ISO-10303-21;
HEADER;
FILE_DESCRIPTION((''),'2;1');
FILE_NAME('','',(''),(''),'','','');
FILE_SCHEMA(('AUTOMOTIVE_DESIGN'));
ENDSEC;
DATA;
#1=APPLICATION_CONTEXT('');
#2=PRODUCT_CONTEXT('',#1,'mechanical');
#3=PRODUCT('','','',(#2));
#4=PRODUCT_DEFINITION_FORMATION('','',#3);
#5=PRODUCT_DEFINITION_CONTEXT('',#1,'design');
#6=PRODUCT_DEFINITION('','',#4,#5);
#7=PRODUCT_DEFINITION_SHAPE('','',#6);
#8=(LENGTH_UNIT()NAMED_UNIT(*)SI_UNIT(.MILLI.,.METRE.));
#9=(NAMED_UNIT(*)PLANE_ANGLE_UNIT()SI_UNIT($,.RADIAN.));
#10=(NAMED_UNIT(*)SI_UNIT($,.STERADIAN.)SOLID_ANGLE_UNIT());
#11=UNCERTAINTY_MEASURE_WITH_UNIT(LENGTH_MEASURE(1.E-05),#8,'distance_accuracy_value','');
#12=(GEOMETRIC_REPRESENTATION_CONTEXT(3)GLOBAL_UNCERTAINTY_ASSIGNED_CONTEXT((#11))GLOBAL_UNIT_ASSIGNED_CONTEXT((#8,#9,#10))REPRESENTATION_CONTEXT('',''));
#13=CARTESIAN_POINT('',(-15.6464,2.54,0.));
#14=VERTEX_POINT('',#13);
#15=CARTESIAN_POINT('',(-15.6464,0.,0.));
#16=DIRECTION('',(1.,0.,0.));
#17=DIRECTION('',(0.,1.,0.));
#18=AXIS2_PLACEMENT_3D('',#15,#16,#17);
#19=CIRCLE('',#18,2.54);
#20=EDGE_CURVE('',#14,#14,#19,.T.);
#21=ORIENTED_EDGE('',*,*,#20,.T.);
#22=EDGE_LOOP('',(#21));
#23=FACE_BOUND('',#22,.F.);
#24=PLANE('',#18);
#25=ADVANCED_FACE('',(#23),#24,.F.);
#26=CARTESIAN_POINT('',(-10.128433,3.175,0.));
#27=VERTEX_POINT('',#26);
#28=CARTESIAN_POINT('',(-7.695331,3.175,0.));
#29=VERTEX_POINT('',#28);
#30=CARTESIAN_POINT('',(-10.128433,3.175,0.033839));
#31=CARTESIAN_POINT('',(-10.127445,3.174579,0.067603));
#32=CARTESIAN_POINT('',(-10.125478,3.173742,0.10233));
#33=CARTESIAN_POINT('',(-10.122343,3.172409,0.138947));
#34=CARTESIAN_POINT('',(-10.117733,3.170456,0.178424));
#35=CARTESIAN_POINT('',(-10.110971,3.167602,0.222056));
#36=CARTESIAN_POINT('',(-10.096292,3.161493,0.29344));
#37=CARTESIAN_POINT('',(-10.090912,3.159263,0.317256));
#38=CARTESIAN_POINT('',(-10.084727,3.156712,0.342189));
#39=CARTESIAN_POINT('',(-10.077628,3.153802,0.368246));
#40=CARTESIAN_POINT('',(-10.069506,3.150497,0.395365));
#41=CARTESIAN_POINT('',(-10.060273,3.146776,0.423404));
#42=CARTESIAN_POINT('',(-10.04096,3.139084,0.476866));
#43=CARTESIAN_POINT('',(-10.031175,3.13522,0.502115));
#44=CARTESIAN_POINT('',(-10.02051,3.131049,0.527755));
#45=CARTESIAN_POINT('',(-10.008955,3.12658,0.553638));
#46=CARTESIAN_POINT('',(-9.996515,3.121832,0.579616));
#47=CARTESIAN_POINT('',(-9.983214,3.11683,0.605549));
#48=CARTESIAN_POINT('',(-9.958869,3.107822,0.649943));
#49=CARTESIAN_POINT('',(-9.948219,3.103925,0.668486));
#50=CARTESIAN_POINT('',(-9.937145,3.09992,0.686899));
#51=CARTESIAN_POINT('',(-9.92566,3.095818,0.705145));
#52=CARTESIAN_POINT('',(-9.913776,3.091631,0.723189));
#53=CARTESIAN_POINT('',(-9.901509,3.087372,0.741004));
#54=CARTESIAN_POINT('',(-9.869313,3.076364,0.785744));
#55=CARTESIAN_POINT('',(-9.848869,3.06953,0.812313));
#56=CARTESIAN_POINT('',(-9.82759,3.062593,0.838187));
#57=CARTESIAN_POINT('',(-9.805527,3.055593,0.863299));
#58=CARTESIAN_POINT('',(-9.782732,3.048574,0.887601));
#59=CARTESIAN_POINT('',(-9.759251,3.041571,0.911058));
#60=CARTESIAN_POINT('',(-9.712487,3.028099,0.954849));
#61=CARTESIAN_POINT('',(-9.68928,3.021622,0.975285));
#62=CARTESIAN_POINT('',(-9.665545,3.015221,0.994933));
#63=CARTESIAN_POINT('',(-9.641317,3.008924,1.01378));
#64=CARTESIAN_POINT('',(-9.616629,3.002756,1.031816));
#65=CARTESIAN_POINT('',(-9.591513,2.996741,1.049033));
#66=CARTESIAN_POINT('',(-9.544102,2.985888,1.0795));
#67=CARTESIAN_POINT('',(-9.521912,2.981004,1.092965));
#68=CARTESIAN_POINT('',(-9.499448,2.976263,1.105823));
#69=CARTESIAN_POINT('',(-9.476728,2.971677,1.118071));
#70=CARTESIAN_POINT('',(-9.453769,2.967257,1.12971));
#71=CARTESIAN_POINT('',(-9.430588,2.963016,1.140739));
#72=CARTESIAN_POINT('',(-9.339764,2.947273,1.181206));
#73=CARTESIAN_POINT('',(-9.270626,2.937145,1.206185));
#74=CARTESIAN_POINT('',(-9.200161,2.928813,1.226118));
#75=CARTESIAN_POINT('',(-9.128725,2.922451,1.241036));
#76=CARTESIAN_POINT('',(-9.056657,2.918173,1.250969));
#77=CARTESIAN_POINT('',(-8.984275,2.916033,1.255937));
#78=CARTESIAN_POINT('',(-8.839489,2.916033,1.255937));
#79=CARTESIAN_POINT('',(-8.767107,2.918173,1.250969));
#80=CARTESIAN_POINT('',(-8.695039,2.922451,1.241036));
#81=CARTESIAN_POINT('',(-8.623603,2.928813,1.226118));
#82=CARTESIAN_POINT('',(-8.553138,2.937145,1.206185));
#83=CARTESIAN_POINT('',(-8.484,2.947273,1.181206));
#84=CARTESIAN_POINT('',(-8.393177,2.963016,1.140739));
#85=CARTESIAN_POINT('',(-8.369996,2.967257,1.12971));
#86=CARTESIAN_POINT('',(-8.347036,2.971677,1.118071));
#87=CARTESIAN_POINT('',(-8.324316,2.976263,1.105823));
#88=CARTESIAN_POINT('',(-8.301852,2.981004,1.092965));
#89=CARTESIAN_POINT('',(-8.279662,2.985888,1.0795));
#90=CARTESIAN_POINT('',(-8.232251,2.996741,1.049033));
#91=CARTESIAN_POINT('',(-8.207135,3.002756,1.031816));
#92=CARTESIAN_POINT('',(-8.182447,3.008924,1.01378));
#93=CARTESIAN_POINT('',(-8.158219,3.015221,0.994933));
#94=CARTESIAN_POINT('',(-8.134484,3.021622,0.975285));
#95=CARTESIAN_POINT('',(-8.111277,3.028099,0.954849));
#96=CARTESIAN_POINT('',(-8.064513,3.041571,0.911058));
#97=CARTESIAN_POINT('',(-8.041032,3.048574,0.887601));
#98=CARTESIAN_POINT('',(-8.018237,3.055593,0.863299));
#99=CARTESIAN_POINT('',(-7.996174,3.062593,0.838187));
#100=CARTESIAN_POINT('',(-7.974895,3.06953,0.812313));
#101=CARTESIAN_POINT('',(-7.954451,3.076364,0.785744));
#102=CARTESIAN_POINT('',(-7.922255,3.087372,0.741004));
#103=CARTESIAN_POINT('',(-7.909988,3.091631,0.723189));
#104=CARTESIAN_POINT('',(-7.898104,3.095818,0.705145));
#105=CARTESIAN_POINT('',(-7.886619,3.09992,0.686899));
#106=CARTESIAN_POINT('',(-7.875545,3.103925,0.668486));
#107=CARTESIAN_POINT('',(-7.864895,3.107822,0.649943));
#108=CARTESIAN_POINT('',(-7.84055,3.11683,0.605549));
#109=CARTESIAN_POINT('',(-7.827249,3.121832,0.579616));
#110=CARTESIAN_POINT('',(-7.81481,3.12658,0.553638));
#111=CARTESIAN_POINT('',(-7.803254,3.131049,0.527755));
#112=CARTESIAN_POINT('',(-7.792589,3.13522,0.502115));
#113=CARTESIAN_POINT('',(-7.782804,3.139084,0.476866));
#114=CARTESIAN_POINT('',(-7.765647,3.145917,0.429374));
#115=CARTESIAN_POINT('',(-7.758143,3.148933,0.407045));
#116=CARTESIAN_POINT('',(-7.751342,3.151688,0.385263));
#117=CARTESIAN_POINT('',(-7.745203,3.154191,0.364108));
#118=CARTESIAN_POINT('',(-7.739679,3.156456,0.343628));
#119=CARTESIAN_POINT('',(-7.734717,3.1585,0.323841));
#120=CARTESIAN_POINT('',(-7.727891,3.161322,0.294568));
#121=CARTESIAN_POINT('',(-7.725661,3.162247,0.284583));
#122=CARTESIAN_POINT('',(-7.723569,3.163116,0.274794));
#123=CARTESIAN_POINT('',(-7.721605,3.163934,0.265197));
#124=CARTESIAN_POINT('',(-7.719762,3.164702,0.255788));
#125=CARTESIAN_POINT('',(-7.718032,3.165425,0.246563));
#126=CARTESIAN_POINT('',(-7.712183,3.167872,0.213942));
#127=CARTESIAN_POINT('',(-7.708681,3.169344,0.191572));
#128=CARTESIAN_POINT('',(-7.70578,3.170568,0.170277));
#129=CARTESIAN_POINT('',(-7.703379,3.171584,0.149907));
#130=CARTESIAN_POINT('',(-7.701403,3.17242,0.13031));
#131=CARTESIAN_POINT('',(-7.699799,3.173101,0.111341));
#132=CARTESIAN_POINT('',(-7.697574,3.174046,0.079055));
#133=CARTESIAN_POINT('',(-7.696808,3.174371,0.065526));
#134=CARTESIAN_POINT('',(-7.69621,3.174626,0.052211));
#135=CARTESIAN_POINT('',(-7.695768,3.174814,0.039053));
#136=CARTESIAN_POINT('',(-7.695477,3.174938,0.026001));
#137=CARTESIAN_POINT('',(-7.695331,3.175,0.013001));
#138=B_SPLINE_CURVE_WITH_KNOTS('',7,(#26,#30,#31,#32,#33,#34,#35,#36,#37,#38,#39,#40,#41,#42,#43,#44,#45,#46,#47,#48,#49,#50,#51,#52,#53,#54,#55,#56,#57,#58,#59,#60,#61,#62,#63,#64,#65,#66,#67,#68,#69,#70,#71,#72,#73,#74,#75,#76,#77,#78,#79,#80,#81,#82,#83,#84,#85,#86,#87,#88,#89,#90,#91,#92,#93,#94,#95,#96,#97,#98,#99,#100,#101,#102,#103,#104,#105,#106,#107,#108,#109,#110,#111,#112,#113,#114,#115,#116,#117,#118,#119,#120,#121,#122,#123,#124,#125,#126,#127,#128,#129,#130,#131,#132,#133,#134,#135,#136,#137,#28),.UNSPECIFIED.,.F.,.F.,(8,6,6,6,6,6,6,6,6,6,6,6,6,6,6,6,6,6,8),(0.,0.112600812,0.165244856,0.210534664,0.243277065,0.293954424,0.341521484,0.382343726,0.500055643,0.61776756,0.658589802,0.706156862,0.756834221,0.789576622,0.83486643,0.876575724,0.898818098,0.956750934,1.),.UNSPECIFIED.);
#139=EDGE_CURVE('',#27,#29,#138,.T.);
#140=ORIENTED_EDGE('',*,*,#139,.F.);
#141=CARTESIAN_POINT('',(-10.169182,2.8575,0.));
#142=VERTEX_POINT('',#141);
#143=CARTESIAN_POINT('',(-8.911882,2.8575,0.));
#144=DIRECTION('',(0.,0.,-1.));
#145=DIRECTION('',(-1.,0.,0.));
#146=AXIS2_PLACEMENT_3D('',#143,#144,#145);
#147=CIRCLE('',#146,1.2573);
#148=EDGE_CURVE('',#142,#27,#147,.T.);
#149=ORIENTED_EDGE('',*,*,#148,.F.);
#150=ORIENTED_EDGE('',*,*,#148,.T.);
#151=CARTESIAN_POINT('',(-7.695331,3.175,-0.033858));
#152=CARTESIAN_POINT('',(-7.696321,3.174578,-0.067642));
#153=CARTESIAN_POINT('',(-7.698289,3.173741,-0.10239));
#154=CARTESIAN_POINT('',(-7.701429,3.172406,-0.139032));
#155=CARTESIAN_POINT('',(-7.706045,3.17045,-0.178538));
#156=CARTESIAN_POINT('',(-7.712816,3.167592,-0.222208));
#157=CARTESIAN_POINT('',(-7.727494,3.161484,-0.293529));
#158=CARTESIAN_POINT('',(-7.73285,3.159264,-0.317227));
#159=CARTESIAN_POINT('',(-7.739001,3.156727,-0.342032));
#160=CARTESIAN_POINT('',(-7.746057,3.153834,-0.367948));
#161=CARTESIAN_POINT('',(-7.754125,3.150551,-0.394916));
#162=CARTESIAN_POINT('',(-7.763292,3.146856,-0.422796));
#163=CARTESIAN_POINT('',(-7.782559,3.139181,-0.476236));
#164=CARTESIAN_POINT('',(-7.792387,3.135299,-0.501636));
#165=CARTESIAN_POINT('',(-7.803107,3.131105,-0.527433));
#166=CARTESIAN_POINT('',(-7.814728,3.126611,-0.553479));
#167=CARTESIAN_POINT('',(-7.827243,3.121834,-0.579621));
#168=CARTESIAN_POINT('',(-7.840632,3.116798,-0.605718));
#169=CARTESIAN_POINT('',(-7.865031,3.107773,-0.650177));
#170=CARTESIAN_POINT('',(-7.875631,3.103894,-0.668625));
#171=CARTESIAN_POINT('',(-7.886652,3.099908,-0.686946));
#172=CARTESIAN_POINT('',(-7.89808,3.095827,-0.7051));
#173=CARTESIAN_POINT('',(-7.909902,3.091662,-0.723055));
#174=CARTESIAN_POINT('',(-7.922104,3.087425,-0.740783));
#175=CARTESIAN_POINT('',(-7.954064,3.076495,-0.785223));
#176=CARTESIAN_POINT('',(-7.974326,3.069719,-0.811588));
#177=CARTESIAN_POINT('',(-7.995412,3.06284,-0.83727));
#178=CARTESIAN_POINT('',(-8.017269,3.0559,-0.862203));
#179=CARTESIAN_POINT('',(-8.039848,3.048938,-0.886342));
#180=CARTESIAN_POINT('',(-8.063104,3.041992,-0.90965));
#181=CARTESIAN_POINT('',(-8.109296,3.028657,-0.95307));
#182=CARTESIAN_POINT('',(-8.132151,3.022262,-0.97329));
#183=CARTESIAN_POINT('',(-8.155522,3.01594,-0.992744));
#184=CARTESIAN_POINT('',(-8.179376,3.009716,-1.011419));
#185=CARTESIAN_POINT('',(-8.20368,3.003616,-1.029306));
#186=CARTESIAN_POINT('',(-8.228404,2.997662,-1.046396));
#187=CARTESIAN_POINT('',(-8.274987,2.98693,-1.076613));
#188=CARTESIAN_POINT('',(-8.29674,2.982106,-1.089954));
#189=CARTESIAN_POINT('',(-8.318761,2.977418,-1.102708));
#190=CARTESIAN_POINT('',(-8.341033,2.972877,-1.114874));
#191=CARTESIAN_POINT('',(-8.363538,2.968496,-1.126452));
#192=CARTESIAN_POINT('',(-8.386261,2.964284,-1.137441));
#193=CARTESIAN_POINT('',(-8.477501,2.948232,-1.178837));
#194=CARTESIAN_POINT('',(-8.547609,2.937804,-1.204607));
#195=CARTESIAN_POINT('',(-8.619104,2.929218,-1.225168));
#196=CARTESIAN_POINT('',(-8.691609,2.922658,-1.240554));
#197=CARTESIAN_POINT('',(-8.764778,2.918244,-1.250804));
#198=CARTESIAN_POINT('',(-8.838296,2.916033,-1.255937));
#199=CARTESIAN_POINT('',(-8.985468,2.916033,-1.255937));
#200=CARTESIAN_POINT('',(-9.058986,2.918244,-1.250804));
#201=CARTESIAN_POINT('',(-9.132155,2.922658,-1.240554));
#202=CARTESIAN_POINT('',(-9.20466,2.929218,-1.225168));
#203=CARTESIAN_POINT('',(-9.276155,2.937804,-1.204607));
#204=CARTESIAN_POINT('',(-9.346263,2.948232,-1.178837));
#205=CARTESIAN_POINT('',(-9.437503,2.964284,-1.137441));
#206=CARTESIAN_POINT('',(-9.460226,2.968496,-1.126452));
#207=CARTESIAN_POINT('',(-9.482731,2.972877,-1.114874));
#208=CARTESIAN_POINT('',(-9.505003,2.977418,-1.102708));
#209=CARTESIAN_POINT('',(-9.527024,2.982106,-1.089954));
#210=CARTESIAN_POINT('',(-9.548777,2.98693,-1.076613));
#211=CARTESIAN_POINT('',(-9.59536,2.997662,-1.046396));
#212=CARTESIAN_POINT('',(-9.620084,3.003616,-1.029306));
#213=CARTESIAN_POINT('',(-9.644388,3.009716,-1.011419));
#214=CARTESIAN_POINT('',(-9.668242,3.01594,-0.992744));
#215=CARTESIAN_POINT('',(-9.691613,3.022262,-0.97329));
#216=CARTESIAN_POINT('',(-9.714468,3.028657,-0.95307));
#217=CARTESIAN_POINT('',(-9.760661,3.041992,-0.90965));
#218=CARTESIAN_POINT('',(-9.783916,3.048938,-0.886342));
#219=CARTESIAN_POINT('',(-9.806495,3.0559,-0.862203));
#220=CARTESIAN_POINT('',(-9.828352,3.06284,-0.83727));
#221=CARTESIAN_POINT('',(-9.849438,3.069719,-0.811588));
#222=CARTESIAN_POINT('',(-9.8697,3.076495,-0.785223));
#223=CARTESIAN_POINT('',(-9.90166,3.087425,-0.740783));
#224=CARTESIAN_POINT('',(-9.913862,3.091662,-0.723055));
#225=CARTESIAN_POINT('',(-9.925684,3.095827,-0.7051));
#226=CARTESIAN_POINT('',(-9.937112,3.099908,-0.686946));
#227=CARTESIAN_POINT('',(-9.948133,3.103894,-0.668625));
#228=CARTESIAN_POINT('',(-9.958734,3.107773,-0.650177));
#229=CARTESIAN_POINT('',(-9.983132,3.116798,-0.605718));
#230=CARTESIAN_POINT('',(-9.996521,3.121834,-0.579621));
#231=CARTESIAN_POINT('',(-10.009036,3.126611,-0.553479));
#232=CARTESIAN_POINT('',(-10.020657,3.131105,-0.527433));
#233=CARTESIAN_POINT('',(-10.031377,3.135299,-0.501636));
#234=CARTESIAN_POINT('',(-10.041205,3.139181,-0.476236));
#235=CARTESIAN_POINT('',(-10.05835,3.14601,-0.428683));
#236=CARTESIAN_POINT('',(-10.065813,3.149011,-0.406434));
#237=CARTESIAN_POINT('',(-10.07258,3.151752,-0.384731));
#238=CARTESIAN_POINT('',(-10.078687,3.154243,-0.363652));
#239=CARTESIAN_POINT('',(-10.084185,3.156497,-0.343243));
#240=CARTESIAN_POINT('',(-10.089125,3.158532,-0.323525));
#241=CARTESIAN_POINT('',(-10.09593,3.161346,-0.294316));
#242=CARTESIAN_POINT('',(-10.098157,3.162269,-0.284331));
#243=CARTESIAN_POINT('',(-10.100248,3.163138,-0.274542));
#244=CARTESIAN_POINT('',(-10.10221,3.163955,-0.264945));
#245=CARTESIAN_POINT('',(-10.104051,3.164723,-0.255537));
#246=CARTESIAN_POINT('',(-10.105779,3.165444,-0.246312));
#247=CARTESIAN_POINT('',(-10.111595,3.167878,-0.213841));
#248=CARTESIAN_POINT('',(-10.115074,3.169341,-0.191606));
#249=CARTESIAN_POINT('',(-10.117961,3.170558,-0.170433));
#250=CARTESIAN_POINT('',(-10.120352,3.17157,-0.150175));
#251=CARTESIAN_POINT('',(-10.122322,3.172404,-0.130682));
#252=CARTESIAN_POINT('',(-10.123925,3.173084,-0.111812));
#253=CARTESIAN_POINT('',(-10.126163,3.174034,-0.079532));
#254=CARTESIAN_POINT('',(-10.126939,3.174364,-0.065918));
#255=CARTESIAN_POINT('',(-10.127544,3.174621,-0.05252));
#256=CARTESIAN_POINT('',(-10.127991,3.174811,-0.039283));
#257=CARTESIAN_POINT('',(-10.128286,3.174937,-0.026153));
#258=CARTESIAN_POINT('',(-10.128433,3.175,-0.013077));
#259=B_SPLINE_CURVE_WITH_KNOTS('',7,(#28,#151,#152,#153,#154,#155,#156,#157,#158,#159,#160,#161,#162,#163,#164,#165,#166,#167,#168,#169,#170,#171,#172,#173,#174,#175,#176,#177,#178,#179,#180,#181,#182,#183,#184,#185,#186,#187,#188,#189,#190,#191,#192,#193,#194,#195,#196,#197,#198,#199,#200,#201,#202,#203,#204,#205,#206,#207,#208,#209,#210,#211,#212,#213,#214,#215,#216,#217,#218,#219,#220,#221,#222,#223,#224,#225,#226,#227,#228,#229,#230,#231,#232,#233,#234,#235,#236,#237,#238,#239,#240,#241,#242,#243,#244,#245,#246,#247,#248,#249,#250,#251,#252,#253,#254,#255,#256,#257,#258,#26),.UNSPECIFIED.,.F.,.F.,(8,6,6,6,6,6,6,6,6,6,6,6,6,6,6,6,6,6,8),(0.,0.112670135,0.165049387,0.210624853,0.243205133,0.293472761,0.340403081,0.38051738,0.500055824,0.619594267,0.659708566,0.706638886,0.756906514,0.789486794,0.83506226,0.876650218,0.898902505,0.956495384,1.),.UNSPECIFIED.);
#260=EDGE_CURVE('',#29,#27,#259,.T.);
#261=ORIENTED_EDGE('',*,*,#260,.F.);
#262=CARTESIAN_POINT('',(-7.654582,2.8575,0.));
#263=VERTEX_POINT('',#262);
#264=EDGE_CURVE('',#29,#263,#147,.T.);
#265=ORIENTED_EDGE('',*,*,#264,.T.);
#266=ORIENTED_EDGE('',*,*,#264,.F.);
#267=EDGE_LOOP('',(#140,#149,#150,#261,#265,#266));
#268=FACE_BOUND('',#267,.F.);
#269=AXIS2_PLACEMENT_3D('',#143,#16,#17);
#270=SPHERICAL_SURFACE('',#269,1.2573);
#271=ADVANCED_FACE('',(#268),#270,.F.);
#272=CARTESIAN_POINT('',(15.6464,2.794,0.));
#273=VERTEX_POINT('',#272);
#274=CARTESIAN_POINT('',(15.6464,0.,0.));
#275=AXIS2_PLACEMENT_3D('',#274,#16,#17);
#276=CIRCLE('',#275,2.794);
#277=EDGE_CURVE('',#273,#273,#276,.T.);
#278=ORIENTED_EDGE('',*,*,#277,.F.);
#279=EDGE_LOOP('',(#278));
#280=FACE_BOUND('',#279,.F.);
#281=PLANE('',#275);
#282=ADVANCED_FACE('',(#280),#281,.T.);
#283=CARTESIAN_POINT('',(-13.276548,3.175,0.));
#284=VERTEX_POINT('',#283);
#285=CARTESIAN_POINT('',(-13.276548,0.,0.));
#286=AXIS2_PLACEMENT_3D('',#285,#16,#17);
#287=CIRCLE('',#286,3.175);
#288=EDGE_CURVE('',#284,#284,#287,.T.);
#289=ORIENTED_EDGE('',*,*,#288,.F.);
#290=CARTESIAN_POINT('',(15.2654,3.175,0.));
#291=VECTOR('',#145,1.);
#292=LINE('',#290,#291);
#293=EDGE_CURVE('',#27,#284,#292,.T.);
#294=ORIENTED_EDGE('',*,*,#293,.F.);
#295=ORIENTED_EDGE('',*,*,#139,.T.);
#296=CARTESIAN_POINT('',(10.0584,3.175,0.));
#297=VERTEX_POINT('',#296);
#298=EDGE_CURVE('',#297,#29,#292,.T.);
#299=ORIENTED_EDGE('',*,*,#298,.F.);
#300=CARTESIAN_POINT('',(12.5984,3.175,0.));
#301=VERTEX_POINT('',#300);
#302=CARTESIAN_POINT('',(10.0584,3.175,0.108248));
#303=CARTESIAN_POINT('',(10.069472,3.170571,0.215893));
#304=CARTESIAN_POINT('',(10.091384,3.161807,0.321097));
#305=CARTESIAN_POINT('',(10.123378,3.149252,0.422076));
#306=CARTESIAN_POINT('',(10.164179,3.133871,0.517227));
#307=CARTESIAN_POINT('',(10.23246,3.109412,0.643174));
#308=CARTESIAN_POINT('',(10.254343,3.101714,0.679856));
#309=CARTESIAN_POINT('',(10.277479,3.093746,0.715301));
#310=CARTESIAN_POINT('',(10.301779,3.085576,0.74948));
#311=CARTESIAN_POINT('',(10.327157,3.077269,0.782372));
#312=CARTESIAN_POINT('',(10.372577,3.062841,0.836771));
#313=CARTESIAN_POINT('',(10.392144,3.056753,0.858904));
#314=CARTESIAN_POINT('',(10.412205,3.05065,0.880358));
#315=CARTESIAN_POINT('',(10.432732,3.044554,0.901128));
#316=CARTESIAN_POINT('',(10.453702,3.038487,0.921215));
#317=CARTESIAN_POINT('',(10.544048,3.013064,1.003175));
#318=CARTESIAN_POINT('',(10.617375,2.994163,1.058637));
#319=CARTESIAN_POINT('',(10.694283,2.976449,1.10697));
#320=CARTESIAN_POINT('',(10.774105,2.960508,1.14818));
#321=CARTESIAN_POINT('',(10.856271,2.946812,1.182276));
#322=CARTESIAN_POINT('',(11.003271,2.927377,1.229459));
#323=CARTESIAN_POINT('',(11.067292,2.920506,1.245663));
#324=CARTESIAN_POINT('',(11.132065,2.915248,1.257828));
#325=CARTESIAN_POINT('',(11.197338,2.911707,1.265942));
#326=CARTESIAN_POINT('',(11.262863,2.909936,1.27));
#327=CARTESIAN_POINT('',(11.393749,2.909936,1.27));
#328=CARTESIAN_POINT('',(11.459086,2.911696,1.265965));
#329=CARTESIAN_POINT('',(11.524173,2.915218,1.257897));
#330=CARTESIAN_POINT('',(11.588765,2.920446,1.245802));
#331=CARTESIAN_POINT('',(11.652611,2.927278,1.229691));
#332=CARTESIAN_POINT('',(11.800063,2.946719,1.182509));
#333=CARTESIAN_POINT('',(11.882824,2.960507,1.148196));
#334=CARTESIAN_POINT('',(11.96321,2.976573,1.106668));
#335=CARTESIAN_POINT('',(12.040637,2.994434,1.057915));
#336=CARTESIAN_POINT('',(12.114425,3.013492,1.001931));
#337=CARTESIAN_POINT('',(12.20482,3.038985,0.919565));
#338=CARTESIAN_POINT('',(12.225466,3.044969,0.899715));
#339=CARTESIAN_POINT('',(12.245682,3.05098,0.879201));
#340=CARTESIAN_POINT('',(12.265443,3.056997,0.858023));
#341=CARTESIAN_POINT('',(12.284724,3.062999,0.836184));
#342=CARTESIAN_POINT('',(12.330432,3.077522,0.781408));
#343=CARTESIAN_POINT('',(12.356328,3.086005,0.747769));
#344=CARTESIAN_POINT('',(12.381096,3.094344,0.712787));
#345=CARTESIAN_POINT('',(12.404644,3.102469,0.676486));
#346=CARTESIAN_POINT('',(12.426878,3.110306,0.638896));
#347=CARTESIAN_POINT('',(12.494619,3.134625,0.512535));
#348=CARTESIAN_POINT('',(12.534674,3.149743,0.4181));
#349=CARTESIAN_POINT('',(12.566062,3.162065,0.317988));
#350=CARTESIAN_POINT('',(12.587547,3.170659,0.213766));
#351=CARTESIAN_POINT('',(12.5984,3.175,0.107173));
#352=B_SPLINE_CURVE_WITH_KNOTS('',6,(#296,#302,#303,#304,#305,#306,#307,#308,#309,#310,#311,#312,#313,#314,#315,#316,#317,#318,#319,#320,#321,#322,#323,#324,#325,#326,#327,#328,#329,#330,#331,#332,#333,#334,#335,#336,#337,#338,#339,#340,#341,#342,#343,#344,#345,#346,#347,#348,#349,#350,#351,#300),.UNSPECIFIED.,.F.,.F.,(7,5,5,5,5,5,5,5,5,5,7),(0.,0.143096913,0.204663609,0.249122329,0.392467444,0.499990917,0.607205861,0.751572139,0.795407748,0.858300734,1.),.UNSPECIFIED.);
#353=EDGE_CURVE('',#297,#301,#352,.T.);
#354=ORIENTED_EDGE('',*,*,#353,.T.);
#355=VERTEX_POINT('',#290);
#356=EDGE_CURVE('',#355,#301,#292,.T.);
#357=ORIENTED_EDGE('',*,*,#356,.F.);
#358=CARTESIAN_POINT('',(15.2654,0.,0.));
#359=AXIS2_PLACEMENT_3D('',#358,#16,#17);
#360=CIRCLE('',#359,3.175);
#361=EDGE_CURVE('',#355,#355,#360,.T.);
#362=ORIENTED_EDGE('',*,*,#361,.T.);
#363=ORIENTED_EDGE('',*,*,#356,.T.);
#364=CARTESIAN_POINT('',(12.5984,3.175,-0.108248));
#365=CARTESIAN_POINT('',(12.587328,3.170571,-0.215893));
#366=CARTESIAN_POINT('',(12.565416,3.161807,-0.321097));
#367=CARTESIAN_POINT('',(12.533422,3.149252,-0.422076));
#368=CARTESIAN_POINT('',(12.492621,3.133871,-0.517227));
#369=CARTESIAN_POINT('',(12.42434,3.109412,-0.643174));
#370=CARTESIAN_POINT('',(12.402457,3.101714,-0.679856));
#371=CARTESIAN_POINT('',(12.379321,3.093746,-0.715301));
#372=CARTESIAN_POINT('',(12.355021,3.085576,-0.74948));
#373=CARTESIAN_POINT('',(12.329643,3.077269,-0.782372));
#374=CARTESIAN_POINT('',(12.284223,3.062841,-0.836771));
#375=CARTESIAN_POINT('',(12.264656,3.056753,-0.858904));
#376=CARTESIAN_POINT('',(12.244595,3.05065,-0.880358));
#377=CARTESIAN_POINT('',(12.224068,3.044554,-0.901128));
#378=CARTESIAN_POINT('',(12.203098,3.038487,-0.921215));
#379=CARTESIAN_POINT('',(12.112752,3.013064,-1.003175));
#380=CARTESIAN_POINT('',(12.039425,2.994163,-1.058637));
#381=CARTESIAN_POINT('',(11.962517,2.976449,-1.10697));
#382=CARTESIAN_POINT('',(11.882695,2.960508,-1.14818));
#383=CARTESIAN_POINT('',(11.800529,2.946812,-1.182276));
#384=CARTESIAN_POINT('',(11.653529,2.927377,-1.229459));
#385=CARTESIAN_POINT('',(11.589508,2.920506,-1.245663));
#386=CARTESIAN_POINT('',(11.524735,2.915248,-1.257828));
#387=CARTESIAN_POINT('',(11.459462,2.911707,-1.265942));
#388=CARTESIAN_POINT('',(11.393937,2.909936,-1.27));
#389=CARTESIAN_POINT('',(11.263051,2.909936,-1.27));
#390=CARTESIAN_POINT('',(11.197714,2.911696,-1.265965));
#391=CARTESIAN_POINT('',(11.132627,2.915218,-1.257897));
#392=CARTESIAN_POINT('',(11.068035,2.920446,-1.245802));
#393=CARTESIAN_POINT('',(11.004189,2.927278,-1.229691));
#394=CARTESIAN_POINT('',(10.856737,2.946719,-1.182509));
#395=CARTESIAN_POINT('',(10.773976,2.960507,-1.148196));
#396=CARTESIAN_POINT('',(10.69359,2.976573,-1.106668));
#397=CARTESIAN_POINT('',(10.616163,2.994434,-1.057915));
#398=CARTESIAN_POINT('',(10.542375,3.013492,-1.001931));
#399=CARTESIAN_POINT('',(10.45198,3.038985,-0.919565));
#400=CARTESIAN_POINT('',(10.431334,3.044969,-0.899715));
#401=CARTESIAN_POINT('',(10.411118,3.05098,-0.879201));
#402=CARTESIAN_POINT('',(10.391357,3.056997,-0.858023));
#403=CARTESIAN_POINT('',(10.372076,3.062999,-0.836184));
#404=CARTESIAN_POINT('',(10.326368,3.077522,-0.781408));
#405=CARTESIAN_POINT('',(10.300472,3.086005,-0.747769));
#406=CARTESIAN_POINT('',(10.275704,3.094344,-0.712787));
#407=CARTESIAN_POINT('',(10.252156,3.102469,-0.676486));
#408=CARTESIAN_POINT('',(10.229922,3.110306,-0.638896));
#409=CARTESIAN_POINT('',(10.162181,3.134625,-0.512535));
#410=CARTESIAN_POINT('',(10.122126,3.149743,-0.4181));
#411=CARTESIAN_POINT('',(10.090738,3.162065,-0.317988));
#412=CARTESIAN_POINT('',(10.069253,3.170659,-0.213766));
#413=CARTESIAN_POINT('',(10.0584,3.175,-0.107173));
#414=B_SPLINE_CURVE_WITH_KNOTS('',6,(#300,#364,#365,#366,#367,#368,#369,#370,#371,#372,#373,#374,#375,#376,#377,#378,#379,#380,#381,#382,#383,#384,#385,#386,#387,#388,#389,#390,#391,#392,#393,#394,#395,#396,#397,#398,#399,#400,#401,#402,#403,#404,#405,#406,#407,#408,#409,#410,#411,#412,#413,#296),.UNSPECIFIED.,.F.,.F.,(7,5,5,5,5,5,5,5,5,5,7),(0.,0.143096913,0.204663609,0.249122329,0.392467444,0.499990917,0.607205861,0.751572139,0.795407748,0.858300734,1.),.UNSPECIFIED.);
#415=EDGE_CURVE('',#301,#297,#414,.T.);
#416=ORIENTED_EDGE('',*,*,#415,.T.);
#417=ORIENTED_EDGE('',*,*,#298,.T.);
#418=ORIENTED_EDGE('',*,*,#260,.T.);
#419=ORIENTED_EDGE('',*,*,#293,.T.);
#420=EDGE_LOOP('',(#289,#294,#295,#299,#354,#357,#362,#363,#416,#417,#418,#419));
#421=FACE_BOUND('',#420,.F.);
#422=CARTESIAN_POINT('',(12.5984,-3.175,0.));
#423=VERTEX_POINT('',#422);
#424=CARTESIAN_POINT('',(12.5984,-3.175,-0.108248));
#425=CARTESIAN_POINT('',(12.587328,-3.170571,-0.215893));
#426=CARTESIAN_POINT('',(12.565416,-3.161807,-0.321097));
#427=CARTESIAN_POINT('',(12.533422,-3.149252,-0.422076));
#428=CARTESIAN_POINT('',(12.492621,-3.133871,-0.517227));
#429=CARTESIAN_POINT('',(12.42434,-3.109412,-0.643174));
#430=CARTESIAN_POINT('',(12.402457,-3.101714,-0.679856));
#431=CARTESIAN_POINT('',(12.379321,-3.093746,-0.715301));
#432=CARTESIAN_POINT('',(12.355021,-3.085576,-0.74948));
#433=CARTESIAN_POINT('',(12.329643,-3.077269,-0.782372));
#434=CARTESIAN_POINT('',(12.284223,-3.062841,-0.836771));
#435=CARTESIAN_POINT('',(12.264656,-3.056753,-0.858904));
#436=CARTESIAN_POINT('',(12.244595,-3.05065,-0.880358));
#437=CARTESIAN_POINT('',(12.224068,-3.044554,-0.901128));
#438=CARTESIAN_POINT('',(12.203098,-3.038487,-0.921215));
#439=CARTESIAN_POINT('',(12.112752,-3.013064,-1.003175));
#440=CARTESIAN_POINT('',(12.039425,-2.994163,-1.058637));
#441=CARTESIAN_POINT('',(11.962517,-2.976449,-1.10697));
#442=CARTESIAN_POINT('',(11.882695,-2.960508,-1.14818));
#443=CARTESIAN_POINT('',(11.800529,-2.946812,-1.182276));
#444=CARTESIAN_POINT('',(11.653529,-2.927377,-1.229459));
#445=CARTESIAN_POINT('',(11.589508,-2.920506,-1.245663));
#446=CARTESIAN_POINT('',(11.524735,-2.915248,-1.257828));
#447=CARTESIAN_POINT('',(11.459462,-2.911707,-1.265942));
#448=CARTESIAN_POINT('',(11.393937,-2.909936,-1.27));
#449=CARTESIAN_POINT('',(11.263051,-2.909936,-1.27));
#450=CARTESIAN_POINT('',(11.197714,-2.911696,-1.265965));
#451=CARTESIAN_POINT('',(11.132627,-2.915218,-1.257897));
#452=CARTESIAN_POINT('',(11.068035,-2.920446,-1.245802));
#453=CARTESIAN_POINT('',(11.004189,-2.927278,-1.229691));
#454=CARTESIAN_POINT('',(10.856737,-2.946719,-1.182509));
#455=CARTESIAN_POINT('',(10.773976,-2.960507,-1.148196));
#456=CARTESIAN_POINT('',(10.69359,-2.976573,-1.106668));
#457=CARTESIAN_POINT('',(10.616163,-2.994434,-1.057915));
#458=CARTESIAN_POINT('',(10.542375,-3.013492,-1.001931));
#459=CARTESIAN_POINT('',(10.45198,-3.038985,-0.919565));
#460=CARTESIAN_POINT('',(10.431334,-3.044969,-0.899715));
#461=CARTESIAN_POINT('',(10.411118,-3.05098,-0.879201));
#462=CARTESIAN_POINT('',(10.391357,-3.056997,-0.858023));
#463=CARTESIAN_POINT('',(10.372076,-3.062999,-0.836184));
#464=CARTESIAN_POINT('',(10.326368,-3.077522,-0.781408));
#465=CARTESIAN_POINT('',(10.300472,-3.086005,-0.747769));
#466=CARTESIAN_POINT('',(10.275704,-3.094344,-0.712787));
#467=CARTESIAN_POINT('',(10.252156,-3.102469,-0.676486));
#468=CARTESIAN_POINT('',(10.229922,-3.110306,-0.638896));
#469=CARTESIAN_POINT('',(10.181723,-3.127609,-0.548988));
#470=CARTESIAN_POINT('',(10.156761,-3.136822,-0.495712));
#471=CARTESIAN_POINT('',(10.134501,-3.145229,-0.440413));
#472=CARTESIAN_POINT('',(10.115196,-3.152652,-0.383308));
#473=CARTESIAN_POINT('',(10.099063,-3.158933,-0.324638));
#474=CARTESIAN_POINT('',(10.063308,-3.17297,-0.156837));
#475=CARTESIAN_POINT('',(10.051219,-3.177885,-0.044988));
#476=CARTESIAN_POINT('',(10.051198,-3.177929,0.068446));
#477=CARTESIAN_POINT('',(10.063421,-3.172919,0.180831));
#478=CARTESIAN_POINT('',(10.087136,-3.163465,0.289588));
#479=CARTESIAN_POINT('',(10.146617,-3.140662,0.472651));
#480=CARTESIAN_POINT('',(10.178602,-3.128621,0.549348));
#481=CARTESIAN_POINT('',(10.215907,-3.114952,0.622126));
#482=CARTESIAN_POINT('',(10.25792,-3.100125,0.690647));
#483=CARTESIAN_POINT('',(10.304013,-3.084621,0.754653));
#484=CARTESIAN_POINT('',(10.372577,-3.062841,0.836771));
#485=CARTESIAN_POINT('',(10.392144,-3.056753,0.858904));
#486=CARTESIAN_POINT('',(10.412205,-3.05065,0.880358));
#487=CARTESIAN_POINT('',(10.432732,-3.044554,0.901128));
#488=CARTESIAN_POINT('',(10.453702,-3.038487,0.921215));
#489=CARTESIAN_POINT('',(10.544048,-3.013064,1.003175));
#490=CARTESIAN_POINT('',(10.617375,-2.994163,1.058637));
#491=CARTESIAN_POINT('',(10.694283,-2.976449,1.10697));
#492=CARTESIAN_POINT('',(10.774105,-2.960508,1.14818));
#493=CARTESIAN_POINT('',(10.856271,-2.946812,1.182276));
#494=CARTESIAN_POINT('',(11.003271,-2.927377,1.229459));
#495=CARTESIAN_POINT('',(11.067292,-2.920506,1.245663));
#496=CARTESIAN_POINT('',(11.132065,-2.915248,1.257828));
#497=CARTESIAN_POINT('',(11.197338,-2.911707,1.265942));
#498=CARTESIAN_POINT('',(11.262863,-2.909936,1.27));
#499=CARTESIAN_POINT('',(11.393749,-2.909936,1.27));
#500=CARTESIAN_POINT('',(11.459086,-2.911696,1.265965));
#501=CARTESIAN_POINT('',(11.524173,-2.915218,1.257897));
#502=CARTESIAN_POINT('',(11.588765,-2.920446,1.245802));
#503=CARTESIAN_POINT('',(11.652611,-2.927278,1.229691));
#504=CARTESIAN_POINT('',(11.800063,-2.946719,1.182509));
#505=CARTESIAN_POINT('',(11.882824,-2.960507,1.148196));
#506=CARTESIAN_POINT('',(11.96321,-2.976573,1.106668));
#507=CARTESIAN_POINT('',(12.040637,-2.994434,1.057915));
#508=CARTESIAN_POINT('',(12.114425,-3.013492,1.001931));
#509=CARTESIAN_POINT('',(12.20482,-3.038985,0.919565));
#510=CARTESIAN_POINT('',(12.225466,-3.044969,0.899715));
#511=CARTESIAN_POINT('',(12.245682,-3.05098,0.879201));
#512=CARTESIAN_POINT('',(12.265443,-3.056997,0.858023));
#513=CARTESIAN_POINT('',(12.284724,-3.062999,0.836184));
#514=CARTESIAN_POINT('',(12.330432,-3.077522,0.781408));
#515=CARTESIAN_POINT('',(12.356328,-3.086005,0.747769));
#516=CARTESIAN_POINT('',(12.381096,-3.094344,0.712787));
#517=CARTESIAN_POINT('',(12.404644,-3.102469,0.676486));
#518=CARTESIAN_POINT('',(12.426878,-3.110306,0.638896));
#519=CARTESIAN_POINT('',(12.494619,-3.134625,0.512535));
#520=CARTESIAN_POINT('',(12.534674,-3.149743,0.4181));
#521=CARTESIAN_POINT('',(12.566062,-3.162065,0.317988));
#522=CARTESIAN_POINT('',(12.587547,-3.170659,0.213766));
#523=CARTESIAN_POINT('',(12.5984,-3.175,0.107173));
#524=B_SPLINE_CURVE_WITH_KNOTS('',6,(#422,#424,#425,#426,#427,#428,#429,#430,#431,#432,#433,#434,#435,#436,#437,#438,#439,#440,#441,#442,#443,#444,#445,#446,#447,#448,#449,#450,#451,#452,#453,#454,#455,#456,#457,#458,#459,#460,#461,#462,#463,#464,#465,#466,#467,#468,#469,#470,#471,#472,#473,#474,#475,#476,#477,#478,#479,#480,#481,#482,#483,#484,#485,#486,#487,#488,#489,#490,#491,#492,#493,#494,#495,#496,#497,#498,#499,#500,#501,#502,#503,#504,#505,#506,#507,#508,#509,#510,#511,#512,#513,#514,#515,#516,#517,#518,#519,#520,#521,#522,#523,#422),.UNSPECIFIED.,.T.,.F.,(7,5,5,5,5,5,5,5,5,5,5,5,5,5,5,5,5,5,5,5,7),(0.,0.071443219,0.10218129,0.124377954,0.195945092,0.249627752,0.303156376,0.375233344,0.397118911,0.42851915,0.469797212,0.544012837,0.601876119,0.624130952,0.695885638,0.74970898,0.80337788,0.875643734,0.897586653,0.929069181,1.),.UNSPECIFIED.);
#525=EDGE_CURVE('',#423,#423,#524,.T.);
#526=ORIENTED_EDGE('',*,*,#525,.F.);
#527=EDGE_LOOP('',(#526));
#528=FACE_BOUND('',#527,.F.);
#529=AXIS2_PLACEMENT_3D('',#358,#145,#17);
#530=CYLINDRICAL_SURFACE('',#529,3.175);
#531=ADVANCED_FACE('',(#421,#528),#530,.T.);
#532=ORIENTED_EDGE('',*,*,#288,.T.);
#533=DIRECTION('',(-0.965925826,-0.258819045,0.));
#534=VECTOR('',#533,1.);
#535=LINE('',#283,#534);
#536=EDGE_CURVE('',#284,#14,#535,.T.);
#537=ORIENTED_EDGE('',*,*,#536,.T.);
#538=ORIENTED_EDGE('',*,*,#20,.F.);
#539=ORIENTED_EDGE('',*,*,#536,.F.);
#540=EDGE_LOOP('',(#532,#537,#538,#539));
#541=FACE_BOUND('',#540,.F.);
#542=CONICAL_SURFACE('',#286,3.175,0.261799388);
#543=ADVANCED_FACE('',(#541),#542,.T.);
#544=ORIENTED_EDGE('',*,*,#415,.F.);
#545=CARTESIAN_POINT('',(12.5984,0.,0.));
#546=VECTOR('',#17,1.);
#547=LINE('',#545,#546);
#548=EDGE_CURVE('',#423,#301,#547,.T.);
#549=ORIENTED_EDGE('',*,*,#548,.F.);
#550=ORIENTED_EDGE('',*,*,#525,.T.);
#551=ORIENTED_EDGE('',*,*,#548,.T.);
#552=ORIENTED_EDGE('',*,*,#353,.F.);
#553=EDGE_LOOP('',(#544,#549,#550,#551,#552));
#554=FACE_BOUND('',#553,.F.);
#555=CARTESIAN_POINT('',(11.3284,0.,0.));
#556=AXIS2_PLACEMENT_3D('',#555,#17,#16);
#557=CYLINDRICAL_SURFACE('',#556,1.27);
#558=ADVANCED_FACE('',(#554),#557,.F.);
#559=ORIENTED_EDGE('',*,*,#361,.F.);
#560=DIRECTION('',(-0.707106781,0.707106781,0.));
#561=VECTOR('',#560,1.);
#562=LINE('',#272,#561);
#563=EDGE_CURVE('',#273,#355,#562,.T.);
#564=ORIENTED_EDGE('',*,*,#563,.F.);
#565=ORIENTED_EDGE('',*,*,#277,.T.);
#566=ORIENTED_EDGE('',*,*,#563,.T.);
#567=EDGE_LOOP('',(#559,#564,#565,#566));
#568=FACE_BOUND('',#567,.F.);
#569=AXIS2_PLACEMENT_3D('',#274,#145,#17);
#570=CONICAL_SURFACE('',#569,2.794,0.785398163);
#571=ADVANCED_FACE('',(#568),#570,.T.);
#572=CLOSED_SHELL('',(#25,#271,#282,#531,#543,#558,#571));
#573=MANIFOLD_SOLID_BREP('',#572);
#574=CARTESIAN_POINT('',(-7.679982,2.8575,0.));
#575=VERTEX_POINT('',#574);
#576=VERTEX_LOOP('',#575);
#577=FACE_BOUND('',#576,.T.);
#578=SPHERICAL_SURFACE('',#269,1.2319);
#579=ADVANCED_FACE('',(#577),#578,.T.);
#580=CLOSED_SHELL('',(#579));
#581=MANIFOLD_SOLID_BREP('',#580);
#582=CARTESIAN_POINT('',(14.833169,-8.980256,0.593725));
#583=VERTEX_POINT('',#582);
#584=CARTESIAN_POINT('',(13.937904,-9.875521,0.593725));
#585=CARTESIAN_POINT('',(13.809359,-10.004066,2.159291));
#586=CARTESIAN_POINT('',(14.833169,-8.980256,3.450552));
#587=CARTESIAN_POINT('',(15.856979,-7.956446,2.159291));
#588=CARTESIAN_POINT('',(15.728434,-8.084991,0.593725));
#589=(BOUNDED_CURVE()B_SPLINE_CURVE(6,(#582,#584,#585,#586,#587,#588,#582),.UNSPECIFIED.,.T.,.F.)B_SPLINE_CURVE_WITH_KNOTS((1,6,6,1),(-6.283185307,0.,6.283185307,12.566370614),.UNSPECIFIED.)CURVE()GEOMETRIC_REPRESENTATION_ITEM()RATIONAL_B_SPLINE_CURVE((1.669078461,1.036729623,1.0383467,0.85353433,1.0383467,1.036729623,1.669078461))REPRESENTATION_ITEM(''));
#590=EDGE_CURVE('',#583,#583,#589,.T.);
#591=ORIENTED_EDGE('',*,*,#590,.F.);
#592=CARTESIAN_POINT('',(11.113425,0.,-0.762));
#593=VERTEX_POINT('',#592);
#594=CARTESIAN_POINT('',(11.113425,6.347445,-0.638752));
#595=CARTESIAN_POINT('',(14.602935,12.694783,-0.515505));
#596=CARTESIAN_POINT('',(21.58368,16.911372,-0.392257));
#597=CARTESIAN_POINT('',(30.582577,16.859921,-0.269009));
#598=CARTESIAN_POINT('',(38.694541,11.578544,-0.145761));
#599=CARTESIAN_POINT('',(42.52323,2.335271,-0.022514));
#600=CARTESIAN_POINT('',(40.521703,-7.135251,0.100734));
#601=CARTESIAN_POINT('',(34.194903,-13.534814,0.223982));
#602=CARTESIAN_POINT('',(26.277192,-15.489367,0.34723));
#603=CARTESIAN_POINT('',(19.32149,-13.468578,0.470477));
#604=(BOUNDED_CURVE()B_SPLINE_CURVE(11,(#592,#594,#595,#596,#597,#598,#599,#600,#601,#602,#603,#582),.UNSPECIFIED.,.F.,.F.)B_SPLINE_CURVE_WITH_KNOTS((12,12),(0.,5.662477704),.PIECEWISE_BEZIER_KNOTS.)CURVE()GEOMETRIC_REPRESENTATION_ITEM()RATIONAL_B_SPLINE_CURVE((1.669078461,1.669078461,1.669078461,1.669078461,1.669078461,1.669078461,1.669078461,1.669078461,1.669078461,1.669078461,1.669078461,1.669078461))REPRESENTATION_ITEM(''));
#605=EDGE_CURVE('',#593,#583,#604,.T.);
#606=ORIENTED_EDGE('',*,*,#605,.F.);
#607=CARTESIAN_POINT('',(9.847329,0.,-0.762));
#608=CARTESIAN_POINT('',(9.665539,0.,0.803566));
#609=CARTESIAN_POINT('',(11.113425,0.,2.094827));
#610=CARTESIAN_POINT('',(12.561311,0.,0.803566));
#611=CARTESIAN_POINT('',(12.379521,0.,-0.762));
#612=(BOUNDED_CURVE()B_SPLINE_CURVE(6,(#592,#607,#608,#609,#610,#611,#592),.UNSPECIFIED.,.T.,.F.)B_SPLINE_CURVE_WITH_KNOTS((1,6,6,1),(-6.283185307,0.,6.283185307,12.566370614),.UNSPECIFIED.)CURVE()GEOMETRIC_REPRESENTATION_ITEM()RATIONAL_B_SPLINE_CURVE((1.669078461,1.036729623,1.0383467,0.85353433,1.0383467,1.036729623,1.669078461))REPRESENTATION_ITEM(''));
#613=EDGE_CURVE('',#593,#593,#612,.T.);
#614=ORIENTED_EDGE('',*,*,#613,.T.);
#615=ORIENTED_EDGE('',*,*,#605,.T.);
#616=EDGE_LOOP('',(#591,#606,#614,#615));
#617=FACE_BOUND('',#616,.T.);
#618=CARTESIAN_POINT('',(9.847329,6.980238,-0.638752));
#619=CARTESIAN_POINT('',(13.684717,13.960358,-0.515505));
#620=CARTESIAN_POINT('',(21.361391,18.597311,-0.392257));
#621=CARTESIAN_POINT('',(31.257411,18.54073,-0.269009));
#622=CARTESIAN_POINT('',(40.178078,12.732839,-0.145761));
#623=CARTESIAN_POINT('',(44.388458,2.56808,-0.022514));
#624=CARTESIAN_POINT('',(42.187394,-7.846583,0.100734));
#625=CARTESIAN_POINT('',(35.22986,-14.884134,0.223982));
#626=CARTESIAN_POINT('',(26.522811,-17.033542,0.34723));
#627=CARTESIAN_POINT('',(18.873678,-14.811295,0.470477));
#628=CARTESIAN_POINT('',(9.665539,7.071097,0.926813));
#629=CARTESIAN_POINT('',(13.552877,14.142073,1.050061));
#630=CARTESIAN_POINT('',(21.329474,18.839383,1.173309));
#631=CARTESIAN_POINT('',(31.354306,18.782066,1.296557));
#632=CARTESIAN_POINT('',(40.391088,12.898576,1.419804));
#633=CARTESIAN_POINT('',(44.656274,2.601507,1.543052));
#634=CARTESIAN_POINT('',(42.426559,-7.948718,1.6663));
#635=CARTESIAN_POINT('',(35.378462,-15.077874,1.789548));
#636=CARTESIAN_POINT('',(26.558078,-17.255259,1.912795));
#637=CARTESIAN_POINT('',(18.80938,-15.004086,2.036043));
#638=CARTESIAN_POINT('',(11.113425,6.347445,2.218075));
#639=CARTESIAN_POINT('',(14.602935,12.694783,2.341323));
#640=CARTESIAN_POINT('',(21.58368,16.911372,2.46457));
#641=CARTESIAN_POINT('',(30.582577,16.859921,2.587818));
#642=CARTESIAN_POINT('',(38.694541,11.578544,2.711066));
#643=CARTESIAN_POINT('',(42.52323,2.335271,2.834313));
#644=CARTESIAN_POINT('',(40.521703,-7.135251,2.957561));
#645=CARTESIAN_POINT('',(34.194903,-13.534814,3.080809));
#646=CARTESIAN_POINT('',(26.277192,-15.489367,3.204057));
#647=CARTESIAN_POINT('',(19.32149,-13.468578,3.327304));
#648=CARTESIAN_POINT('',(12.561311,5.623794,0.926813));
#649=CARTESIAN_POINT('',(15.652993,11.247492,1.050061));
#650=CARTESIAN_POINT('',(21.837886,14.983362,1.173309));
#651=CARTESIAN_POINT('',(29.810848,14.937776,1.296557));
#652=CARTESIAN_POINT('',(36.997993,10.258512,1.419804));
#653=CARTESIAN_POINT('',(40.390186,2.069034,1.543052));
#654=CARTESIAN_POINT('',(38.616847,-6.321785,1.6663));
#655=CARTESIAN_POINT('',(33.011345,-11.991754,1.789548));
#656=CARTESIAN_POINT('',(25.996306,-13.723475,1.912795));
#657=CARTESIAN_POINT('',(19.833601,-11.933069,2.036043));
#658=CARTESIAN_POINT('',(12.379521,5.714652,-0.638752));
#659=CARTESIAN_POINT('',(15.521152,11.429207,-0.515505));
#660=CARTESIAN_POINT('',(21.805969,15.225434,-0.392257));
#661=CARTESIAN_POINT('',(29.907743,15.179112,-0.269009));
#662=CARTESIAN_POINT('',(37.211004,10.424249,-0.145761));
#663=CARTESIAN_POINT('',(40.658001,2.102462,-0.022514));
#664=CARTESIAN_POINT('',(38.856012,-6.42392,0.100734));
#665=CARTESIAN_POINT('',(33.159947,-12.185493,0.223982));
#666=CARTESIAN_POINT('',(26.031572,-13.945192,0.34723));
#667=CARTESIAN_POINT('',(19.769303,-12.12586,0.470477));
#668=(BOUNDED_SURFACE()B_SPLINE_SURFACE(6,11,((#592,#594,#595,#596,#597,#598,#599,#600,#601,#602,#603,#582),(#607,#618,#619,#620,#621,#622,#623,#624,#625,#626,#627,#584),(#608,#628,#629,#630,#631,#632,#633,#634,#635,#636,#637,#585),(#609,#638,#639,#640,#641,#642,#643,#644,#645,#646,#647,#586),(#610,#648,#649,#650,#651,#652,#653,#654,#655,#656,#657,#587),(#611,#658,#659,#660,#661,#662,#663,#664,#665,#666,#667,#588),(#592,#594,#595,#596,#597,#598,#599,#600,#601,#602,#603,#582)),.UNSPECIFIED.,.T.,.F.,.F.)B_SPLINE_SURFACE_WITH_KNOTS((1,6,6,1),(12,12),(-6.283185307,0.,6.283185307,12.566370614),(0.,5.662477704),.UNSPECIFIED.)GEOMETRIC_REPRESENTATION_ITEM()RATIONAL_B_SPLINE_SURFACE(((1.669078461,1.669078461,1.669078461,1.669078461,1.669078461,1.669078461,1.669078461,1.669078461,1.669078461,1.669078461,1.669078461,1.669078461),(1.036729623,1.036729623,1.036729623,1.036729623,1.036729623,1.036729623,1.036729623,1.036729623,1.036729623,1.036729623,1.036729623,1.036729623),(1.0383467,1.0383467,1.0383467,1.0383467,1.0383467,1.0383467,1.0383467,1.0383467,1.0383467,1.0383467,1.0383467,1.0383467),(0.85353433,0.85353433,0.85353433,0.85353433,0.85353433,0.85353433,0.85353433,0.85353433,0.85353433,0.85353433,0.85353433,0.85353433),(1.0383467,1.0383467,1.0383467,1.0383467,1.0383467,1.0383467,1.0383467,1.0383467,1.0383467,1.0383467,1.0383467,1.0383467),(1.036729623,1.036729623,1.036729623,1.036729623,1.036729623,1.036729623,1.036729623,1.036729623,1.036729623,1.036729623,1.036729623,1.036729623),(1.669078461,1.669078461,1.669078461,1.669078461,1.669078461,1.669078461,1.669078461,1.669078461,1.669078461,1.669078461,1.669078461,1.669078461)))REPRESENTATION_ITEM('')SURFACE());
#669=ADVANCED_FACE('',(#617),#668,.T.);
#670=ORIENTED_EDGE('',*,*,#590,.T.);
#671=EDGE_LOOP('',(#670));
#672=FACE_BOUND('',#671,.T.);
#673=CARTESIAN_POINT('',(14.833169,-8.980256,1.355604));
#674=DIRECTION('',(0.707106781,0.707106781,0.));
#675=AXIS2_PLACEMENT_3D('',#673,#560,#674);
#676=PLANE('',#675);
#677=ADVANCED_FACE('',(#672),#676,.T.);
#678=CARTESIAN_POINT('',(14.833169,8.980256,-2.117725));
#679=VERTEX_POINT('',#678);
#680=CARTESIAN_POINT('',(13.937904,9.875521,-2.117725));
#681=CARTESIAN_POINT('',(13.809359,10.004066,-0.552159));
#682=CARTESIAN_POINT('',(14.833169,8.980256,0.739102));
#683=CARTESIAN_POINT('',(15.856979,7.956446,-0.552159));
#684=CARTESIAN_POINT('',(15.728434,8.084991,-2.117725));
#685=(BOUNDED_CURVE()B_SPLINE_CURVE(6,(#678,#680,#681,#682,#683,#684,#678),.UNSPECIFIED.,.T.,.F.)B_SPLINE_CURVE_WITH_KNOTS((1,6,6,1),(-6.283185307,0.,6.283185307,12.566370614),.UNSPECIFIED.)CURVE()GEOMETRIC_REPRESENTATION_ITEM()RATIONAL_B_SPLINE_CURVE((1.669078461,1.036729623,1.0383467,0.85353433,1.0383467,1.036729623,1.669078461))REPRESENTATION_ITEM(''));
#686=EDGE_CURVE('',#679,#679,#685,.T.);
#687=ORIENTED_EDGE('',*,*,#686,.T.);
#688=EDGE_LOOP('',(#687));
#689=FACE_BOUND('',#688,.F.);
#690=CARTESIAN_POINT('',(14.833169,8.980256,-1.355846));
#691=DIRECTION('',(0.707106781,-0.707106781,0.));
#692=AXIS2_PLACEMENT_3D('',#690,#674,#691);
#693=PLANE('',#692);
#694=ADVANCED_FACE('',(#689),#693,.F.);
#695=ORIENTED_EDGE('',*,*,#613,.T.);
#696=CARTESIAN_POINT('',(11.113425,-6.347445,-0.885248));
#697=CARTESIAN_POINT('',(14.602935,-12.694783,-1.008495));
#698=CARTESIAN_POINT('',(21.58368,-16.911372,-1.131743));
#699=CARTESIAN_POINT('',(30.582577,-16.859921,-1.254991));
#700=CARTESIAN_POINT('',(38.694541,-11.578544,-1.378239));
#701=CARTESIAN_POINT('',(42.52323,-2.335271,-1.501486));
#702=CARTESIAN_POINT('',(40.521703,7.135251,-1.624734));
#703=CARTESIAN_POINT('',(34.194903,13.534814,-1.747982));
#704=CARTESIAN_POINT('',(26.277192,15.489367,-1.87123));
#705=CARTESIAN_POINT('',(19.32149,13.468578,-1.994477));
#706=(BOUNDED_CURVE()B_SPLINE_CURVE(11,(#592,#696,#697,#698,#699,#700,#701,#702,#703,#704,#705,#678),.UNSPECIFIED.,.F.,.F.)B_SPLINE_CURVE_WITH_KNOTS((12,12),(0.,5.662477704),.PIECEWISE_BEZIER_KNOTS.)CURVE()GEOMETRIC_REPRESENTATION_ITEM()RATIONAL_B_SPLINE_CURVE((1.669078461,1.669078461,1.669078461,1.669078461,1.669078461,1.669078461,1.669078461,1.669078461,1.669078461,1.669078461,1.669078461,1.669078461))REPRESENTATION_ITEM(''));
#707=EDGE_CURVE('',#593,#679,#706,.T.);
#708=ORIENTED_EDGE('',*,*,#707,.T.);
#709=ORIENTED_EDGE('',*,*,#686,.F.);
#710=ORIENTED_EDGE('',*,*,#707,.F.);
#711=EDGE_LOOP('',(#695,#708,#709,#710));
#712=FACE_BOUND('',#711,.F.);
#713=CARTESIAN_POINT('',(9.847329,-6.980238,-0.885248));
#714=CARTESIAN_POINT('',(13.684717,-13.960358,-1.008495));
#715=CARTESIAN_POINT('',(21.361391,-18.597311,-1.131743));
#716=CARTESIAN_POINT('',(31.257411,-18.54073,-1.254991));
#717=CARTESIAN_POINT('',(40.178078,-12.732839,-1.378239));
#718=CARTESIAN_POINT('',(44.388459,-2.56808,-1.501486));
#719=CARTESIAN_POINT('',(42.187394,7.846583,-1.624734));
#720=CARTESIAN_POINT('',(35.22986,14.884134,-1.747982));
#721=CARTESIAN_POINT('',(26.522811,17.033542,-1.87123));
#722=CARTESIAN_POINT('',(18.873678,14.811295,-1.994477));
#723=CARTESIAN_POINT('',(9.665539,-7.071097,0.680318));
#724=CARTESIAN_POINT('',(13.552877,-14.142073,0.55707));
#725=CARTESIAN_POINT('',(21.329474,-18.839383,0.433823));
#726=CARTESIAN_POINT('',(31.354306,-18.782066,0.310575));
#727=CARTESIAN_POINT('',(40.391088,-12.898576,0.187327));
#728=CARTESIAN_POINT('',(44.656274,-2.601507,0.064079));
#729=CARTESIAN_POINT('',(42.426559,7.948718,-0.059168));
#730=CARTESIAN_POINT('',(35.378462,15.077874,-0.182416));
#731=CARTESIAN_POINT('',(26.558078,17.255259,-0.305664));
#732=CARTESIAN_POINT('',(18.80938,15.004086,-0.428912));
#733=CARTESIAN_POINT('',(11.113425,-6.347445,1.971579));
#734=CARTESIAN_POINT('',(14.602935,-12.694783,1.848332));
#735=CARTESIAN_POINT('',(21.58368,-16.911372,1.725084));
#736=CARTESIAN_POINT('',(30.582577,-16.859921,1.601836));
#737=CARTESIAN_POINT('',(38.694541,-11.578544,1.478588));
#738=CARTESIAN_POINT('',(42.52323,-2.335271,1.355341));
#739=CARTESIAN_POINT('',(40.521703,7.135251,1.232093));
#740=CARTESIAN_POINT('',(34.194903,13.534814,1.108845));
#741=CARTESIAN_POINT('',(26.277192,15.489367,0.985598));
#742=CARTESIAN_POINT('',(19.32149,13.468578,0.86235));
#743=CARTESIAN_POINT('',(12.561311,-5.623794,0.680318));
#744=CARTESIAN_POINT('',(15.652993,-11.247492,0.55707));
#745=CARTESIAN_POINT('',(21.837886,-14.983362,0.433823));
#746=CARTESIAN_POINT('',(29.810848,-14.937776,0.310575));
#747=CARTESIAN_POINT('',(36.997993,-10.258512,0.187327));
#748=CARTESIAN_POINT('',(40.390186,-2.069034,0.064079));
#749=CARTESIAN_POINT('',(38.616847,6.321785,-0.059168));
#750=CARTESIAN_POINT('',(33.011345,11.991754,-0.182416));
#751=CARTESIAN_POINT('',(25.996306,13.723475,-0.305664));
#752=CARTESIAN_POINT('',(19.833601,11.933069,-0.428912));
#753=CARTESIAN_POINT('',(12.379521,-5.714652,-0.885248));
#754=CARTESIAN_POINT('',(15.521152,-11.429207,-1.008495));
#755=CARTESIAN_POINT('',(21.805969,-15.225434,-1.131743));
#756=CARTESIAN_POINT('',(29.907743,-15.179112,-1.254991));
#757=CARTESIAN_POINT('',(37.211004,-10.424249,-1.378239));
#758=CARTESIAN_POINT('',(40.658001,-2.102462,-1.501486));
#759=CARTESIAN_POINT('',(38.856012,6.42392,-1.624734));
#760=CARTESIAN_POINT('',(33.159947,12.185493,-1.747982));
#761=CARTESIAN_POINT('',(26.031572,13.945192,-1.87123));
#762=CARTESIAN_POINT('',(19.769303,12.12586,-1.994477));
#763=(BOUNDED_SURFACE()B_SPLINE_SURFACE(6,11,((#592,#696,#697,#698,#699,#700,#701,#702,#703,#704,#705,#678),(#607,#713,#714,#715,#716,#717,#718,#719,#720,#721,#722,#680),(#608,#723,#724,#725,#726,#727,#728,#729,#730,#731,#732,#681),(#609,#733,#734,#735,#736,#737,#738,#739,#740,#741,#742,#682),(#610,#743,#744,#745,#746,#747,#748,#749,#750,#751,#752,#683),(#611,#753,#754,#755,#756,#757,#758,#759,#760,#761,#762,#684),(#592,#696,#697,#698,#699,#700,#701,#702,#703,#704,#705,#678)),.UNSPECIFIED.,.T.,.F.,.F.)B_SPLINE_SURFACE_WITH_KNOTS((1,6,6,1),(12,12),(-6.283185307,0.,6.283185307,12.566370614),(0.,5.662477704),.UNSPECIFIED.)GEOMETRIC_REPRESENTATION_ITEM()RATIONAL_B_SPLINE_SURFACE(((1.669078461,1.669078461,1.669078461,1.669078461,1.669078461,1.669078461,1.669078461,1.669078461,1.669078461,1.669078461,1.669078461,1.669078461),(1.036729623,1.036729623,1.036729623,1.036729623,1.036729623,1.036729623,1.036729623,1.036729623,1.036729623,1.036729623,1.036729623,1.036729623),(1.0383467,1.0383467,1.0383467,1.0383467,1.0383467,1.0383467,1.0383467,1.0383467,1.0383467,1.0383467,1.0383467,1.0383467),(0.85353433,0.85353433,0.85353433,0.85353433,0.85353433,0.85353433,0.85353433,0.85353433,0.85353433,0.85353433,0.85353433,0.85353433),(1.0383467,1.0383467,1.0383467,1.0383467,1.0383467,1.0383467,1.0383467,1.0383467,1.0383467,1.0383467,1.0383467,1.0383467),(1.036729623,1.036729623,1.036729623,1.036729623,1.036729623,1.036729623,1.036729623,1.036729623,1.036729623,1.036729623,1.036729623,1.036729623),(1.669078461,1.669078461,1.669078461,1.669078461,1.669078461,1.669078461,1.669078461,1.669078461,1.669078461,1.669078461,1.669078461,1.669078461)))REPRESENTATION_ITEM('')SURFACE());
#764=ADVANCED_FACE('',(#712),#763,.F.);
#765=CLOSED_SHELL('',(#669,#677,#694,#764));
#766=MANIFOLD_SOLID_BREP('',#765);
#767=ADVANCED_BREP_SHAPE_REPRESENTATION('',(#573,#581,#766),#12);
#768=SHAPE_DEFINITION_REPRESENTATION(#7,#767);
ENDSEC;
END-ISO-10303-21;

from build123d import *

# Parameters (mm, degrees)
SKETCH4_W          = 1.27
SKETCH4_H          = 6.35
SWEEP1_PITCH       = 1.5494
SWEEP1_HEIGHT      = 1.355725
SWEEP1_RADIUS      = 13.462
SKETCH6_R          = 0.762
SWEEP2_PITCH       = 1.5494
SWEEP2_HEIGHT      = 1.355725
SWEEP2_RADIUS      = 13.462
SWEEP2_START_ANGLE = -180
SKETCH6_2_R        = 0.762


with BuildPart() as part:
    # Sketch1 → Revolve1 (revolve)
    with BuildSketch(Plane.XY):
        Polygon((15.6464, 2.794), (15.2654, 3.175), (-13.276547737, 3.175), (-15.6464, 2.54), (-15.6464, 0), (15.6464, 0), align=None)
    revolve(axis=Axis((15.6464, 0, 0), (1, 0, 0)))

    # Sketch2 → Cut-Revolve1 (revolve, cut)
    with BuildSketch(Plane.XY):
        with BuildLine():
            Line((-7.654582051, 2.8575), (-10.169182051, 2.8575))
            ThreePointArc((-10.169182051, 2.8575), (-8.911882051, 4.1148), (-7.654582051, 2.8575))
        make_face()
    revolve(axis=Axis((-7.654582051, 2.8575, 0), (1, 0, 0)), mode=Mode.SUBTRACT)

    # Sketch4 → Cut-Revolve2 (revolve, cut)
    with BuildSketch(Plane.XY):
        with Locations((11.9634, 0)):
            Rectangle(SKETCH4_W, SKETCH4_H)
    revolve(axis=Axis((11.3284, -3.175, 0), (0, 1, 0)), mode=Mode.SUBTRACT)


with BuildPart() as body_2:
    # Sketch3 → Revolve2 (revolve)
    with BuildSketch(Plane.XY):
        with BuildLine():
            Line((-7.679982051, 2.8575), (-10.143782051, 2.8575))
            ThreePointArc((-10.143782051, 2.8575), (-8.911882051, 4.0894), (-7.679982051, 2.8575))
        make_face()
    revolve(axis=Axis((-7.679982051, 2.8575, 0), (1, 0, 0)))


with BuildPart() as body_3:
    # Sweep1: sweep along a helix
    with BuildLine() as sweep1_path:
        Helix(SWEEP1_PITCH, SWEEP1_HEIGHT, SWEEP1_RADIUS, center=(23.813425091, 0, 0), direction=(0, 0, -1), lefthand=True)
    # Sketch6 → Sweep1 (sweep)
    with BuildSketch(Plane(origin=(114.003847968, 0, 0), x_dir=(0, 0, -1), z_dir=(0, 1, 0))):
        with Locations((0, 102.890422877)):
            Circle(SKETCH6_R)
    sweep(path=sweep1_path.line, is_frenet=True)

    # Sweep2: sweep along a helix
    with BuildLine() as sweep2_path:
        add(Helix(SWEEP2_PITCH, SWEEP2_HEIGHT, SWEEP2_RADIUS, center=(23.813425091, 0, 0), direction=(0, 0, 1), lefthand=True, mode=Mode.PRIVATE).rotate(Axis((23.813425091, 0, 0), (0, 0, 1)), SWEEP2_START_ANGLE))
    # Sketch6<2> → Sweep2 (sweep)
    with BuildSketch(Plane(origin=(114.003847968, 0, 0), x_dir=(0, 0, -1), z_dir=(0, 1, 0))):
        with Locations((0, 102.890422877)):
            Circle(SKETCH6_2_R)
    sweep(path=sweep2_path.line, is_frenet=True)


solid = Compound([part.part, body_2.part, body_3.part])
